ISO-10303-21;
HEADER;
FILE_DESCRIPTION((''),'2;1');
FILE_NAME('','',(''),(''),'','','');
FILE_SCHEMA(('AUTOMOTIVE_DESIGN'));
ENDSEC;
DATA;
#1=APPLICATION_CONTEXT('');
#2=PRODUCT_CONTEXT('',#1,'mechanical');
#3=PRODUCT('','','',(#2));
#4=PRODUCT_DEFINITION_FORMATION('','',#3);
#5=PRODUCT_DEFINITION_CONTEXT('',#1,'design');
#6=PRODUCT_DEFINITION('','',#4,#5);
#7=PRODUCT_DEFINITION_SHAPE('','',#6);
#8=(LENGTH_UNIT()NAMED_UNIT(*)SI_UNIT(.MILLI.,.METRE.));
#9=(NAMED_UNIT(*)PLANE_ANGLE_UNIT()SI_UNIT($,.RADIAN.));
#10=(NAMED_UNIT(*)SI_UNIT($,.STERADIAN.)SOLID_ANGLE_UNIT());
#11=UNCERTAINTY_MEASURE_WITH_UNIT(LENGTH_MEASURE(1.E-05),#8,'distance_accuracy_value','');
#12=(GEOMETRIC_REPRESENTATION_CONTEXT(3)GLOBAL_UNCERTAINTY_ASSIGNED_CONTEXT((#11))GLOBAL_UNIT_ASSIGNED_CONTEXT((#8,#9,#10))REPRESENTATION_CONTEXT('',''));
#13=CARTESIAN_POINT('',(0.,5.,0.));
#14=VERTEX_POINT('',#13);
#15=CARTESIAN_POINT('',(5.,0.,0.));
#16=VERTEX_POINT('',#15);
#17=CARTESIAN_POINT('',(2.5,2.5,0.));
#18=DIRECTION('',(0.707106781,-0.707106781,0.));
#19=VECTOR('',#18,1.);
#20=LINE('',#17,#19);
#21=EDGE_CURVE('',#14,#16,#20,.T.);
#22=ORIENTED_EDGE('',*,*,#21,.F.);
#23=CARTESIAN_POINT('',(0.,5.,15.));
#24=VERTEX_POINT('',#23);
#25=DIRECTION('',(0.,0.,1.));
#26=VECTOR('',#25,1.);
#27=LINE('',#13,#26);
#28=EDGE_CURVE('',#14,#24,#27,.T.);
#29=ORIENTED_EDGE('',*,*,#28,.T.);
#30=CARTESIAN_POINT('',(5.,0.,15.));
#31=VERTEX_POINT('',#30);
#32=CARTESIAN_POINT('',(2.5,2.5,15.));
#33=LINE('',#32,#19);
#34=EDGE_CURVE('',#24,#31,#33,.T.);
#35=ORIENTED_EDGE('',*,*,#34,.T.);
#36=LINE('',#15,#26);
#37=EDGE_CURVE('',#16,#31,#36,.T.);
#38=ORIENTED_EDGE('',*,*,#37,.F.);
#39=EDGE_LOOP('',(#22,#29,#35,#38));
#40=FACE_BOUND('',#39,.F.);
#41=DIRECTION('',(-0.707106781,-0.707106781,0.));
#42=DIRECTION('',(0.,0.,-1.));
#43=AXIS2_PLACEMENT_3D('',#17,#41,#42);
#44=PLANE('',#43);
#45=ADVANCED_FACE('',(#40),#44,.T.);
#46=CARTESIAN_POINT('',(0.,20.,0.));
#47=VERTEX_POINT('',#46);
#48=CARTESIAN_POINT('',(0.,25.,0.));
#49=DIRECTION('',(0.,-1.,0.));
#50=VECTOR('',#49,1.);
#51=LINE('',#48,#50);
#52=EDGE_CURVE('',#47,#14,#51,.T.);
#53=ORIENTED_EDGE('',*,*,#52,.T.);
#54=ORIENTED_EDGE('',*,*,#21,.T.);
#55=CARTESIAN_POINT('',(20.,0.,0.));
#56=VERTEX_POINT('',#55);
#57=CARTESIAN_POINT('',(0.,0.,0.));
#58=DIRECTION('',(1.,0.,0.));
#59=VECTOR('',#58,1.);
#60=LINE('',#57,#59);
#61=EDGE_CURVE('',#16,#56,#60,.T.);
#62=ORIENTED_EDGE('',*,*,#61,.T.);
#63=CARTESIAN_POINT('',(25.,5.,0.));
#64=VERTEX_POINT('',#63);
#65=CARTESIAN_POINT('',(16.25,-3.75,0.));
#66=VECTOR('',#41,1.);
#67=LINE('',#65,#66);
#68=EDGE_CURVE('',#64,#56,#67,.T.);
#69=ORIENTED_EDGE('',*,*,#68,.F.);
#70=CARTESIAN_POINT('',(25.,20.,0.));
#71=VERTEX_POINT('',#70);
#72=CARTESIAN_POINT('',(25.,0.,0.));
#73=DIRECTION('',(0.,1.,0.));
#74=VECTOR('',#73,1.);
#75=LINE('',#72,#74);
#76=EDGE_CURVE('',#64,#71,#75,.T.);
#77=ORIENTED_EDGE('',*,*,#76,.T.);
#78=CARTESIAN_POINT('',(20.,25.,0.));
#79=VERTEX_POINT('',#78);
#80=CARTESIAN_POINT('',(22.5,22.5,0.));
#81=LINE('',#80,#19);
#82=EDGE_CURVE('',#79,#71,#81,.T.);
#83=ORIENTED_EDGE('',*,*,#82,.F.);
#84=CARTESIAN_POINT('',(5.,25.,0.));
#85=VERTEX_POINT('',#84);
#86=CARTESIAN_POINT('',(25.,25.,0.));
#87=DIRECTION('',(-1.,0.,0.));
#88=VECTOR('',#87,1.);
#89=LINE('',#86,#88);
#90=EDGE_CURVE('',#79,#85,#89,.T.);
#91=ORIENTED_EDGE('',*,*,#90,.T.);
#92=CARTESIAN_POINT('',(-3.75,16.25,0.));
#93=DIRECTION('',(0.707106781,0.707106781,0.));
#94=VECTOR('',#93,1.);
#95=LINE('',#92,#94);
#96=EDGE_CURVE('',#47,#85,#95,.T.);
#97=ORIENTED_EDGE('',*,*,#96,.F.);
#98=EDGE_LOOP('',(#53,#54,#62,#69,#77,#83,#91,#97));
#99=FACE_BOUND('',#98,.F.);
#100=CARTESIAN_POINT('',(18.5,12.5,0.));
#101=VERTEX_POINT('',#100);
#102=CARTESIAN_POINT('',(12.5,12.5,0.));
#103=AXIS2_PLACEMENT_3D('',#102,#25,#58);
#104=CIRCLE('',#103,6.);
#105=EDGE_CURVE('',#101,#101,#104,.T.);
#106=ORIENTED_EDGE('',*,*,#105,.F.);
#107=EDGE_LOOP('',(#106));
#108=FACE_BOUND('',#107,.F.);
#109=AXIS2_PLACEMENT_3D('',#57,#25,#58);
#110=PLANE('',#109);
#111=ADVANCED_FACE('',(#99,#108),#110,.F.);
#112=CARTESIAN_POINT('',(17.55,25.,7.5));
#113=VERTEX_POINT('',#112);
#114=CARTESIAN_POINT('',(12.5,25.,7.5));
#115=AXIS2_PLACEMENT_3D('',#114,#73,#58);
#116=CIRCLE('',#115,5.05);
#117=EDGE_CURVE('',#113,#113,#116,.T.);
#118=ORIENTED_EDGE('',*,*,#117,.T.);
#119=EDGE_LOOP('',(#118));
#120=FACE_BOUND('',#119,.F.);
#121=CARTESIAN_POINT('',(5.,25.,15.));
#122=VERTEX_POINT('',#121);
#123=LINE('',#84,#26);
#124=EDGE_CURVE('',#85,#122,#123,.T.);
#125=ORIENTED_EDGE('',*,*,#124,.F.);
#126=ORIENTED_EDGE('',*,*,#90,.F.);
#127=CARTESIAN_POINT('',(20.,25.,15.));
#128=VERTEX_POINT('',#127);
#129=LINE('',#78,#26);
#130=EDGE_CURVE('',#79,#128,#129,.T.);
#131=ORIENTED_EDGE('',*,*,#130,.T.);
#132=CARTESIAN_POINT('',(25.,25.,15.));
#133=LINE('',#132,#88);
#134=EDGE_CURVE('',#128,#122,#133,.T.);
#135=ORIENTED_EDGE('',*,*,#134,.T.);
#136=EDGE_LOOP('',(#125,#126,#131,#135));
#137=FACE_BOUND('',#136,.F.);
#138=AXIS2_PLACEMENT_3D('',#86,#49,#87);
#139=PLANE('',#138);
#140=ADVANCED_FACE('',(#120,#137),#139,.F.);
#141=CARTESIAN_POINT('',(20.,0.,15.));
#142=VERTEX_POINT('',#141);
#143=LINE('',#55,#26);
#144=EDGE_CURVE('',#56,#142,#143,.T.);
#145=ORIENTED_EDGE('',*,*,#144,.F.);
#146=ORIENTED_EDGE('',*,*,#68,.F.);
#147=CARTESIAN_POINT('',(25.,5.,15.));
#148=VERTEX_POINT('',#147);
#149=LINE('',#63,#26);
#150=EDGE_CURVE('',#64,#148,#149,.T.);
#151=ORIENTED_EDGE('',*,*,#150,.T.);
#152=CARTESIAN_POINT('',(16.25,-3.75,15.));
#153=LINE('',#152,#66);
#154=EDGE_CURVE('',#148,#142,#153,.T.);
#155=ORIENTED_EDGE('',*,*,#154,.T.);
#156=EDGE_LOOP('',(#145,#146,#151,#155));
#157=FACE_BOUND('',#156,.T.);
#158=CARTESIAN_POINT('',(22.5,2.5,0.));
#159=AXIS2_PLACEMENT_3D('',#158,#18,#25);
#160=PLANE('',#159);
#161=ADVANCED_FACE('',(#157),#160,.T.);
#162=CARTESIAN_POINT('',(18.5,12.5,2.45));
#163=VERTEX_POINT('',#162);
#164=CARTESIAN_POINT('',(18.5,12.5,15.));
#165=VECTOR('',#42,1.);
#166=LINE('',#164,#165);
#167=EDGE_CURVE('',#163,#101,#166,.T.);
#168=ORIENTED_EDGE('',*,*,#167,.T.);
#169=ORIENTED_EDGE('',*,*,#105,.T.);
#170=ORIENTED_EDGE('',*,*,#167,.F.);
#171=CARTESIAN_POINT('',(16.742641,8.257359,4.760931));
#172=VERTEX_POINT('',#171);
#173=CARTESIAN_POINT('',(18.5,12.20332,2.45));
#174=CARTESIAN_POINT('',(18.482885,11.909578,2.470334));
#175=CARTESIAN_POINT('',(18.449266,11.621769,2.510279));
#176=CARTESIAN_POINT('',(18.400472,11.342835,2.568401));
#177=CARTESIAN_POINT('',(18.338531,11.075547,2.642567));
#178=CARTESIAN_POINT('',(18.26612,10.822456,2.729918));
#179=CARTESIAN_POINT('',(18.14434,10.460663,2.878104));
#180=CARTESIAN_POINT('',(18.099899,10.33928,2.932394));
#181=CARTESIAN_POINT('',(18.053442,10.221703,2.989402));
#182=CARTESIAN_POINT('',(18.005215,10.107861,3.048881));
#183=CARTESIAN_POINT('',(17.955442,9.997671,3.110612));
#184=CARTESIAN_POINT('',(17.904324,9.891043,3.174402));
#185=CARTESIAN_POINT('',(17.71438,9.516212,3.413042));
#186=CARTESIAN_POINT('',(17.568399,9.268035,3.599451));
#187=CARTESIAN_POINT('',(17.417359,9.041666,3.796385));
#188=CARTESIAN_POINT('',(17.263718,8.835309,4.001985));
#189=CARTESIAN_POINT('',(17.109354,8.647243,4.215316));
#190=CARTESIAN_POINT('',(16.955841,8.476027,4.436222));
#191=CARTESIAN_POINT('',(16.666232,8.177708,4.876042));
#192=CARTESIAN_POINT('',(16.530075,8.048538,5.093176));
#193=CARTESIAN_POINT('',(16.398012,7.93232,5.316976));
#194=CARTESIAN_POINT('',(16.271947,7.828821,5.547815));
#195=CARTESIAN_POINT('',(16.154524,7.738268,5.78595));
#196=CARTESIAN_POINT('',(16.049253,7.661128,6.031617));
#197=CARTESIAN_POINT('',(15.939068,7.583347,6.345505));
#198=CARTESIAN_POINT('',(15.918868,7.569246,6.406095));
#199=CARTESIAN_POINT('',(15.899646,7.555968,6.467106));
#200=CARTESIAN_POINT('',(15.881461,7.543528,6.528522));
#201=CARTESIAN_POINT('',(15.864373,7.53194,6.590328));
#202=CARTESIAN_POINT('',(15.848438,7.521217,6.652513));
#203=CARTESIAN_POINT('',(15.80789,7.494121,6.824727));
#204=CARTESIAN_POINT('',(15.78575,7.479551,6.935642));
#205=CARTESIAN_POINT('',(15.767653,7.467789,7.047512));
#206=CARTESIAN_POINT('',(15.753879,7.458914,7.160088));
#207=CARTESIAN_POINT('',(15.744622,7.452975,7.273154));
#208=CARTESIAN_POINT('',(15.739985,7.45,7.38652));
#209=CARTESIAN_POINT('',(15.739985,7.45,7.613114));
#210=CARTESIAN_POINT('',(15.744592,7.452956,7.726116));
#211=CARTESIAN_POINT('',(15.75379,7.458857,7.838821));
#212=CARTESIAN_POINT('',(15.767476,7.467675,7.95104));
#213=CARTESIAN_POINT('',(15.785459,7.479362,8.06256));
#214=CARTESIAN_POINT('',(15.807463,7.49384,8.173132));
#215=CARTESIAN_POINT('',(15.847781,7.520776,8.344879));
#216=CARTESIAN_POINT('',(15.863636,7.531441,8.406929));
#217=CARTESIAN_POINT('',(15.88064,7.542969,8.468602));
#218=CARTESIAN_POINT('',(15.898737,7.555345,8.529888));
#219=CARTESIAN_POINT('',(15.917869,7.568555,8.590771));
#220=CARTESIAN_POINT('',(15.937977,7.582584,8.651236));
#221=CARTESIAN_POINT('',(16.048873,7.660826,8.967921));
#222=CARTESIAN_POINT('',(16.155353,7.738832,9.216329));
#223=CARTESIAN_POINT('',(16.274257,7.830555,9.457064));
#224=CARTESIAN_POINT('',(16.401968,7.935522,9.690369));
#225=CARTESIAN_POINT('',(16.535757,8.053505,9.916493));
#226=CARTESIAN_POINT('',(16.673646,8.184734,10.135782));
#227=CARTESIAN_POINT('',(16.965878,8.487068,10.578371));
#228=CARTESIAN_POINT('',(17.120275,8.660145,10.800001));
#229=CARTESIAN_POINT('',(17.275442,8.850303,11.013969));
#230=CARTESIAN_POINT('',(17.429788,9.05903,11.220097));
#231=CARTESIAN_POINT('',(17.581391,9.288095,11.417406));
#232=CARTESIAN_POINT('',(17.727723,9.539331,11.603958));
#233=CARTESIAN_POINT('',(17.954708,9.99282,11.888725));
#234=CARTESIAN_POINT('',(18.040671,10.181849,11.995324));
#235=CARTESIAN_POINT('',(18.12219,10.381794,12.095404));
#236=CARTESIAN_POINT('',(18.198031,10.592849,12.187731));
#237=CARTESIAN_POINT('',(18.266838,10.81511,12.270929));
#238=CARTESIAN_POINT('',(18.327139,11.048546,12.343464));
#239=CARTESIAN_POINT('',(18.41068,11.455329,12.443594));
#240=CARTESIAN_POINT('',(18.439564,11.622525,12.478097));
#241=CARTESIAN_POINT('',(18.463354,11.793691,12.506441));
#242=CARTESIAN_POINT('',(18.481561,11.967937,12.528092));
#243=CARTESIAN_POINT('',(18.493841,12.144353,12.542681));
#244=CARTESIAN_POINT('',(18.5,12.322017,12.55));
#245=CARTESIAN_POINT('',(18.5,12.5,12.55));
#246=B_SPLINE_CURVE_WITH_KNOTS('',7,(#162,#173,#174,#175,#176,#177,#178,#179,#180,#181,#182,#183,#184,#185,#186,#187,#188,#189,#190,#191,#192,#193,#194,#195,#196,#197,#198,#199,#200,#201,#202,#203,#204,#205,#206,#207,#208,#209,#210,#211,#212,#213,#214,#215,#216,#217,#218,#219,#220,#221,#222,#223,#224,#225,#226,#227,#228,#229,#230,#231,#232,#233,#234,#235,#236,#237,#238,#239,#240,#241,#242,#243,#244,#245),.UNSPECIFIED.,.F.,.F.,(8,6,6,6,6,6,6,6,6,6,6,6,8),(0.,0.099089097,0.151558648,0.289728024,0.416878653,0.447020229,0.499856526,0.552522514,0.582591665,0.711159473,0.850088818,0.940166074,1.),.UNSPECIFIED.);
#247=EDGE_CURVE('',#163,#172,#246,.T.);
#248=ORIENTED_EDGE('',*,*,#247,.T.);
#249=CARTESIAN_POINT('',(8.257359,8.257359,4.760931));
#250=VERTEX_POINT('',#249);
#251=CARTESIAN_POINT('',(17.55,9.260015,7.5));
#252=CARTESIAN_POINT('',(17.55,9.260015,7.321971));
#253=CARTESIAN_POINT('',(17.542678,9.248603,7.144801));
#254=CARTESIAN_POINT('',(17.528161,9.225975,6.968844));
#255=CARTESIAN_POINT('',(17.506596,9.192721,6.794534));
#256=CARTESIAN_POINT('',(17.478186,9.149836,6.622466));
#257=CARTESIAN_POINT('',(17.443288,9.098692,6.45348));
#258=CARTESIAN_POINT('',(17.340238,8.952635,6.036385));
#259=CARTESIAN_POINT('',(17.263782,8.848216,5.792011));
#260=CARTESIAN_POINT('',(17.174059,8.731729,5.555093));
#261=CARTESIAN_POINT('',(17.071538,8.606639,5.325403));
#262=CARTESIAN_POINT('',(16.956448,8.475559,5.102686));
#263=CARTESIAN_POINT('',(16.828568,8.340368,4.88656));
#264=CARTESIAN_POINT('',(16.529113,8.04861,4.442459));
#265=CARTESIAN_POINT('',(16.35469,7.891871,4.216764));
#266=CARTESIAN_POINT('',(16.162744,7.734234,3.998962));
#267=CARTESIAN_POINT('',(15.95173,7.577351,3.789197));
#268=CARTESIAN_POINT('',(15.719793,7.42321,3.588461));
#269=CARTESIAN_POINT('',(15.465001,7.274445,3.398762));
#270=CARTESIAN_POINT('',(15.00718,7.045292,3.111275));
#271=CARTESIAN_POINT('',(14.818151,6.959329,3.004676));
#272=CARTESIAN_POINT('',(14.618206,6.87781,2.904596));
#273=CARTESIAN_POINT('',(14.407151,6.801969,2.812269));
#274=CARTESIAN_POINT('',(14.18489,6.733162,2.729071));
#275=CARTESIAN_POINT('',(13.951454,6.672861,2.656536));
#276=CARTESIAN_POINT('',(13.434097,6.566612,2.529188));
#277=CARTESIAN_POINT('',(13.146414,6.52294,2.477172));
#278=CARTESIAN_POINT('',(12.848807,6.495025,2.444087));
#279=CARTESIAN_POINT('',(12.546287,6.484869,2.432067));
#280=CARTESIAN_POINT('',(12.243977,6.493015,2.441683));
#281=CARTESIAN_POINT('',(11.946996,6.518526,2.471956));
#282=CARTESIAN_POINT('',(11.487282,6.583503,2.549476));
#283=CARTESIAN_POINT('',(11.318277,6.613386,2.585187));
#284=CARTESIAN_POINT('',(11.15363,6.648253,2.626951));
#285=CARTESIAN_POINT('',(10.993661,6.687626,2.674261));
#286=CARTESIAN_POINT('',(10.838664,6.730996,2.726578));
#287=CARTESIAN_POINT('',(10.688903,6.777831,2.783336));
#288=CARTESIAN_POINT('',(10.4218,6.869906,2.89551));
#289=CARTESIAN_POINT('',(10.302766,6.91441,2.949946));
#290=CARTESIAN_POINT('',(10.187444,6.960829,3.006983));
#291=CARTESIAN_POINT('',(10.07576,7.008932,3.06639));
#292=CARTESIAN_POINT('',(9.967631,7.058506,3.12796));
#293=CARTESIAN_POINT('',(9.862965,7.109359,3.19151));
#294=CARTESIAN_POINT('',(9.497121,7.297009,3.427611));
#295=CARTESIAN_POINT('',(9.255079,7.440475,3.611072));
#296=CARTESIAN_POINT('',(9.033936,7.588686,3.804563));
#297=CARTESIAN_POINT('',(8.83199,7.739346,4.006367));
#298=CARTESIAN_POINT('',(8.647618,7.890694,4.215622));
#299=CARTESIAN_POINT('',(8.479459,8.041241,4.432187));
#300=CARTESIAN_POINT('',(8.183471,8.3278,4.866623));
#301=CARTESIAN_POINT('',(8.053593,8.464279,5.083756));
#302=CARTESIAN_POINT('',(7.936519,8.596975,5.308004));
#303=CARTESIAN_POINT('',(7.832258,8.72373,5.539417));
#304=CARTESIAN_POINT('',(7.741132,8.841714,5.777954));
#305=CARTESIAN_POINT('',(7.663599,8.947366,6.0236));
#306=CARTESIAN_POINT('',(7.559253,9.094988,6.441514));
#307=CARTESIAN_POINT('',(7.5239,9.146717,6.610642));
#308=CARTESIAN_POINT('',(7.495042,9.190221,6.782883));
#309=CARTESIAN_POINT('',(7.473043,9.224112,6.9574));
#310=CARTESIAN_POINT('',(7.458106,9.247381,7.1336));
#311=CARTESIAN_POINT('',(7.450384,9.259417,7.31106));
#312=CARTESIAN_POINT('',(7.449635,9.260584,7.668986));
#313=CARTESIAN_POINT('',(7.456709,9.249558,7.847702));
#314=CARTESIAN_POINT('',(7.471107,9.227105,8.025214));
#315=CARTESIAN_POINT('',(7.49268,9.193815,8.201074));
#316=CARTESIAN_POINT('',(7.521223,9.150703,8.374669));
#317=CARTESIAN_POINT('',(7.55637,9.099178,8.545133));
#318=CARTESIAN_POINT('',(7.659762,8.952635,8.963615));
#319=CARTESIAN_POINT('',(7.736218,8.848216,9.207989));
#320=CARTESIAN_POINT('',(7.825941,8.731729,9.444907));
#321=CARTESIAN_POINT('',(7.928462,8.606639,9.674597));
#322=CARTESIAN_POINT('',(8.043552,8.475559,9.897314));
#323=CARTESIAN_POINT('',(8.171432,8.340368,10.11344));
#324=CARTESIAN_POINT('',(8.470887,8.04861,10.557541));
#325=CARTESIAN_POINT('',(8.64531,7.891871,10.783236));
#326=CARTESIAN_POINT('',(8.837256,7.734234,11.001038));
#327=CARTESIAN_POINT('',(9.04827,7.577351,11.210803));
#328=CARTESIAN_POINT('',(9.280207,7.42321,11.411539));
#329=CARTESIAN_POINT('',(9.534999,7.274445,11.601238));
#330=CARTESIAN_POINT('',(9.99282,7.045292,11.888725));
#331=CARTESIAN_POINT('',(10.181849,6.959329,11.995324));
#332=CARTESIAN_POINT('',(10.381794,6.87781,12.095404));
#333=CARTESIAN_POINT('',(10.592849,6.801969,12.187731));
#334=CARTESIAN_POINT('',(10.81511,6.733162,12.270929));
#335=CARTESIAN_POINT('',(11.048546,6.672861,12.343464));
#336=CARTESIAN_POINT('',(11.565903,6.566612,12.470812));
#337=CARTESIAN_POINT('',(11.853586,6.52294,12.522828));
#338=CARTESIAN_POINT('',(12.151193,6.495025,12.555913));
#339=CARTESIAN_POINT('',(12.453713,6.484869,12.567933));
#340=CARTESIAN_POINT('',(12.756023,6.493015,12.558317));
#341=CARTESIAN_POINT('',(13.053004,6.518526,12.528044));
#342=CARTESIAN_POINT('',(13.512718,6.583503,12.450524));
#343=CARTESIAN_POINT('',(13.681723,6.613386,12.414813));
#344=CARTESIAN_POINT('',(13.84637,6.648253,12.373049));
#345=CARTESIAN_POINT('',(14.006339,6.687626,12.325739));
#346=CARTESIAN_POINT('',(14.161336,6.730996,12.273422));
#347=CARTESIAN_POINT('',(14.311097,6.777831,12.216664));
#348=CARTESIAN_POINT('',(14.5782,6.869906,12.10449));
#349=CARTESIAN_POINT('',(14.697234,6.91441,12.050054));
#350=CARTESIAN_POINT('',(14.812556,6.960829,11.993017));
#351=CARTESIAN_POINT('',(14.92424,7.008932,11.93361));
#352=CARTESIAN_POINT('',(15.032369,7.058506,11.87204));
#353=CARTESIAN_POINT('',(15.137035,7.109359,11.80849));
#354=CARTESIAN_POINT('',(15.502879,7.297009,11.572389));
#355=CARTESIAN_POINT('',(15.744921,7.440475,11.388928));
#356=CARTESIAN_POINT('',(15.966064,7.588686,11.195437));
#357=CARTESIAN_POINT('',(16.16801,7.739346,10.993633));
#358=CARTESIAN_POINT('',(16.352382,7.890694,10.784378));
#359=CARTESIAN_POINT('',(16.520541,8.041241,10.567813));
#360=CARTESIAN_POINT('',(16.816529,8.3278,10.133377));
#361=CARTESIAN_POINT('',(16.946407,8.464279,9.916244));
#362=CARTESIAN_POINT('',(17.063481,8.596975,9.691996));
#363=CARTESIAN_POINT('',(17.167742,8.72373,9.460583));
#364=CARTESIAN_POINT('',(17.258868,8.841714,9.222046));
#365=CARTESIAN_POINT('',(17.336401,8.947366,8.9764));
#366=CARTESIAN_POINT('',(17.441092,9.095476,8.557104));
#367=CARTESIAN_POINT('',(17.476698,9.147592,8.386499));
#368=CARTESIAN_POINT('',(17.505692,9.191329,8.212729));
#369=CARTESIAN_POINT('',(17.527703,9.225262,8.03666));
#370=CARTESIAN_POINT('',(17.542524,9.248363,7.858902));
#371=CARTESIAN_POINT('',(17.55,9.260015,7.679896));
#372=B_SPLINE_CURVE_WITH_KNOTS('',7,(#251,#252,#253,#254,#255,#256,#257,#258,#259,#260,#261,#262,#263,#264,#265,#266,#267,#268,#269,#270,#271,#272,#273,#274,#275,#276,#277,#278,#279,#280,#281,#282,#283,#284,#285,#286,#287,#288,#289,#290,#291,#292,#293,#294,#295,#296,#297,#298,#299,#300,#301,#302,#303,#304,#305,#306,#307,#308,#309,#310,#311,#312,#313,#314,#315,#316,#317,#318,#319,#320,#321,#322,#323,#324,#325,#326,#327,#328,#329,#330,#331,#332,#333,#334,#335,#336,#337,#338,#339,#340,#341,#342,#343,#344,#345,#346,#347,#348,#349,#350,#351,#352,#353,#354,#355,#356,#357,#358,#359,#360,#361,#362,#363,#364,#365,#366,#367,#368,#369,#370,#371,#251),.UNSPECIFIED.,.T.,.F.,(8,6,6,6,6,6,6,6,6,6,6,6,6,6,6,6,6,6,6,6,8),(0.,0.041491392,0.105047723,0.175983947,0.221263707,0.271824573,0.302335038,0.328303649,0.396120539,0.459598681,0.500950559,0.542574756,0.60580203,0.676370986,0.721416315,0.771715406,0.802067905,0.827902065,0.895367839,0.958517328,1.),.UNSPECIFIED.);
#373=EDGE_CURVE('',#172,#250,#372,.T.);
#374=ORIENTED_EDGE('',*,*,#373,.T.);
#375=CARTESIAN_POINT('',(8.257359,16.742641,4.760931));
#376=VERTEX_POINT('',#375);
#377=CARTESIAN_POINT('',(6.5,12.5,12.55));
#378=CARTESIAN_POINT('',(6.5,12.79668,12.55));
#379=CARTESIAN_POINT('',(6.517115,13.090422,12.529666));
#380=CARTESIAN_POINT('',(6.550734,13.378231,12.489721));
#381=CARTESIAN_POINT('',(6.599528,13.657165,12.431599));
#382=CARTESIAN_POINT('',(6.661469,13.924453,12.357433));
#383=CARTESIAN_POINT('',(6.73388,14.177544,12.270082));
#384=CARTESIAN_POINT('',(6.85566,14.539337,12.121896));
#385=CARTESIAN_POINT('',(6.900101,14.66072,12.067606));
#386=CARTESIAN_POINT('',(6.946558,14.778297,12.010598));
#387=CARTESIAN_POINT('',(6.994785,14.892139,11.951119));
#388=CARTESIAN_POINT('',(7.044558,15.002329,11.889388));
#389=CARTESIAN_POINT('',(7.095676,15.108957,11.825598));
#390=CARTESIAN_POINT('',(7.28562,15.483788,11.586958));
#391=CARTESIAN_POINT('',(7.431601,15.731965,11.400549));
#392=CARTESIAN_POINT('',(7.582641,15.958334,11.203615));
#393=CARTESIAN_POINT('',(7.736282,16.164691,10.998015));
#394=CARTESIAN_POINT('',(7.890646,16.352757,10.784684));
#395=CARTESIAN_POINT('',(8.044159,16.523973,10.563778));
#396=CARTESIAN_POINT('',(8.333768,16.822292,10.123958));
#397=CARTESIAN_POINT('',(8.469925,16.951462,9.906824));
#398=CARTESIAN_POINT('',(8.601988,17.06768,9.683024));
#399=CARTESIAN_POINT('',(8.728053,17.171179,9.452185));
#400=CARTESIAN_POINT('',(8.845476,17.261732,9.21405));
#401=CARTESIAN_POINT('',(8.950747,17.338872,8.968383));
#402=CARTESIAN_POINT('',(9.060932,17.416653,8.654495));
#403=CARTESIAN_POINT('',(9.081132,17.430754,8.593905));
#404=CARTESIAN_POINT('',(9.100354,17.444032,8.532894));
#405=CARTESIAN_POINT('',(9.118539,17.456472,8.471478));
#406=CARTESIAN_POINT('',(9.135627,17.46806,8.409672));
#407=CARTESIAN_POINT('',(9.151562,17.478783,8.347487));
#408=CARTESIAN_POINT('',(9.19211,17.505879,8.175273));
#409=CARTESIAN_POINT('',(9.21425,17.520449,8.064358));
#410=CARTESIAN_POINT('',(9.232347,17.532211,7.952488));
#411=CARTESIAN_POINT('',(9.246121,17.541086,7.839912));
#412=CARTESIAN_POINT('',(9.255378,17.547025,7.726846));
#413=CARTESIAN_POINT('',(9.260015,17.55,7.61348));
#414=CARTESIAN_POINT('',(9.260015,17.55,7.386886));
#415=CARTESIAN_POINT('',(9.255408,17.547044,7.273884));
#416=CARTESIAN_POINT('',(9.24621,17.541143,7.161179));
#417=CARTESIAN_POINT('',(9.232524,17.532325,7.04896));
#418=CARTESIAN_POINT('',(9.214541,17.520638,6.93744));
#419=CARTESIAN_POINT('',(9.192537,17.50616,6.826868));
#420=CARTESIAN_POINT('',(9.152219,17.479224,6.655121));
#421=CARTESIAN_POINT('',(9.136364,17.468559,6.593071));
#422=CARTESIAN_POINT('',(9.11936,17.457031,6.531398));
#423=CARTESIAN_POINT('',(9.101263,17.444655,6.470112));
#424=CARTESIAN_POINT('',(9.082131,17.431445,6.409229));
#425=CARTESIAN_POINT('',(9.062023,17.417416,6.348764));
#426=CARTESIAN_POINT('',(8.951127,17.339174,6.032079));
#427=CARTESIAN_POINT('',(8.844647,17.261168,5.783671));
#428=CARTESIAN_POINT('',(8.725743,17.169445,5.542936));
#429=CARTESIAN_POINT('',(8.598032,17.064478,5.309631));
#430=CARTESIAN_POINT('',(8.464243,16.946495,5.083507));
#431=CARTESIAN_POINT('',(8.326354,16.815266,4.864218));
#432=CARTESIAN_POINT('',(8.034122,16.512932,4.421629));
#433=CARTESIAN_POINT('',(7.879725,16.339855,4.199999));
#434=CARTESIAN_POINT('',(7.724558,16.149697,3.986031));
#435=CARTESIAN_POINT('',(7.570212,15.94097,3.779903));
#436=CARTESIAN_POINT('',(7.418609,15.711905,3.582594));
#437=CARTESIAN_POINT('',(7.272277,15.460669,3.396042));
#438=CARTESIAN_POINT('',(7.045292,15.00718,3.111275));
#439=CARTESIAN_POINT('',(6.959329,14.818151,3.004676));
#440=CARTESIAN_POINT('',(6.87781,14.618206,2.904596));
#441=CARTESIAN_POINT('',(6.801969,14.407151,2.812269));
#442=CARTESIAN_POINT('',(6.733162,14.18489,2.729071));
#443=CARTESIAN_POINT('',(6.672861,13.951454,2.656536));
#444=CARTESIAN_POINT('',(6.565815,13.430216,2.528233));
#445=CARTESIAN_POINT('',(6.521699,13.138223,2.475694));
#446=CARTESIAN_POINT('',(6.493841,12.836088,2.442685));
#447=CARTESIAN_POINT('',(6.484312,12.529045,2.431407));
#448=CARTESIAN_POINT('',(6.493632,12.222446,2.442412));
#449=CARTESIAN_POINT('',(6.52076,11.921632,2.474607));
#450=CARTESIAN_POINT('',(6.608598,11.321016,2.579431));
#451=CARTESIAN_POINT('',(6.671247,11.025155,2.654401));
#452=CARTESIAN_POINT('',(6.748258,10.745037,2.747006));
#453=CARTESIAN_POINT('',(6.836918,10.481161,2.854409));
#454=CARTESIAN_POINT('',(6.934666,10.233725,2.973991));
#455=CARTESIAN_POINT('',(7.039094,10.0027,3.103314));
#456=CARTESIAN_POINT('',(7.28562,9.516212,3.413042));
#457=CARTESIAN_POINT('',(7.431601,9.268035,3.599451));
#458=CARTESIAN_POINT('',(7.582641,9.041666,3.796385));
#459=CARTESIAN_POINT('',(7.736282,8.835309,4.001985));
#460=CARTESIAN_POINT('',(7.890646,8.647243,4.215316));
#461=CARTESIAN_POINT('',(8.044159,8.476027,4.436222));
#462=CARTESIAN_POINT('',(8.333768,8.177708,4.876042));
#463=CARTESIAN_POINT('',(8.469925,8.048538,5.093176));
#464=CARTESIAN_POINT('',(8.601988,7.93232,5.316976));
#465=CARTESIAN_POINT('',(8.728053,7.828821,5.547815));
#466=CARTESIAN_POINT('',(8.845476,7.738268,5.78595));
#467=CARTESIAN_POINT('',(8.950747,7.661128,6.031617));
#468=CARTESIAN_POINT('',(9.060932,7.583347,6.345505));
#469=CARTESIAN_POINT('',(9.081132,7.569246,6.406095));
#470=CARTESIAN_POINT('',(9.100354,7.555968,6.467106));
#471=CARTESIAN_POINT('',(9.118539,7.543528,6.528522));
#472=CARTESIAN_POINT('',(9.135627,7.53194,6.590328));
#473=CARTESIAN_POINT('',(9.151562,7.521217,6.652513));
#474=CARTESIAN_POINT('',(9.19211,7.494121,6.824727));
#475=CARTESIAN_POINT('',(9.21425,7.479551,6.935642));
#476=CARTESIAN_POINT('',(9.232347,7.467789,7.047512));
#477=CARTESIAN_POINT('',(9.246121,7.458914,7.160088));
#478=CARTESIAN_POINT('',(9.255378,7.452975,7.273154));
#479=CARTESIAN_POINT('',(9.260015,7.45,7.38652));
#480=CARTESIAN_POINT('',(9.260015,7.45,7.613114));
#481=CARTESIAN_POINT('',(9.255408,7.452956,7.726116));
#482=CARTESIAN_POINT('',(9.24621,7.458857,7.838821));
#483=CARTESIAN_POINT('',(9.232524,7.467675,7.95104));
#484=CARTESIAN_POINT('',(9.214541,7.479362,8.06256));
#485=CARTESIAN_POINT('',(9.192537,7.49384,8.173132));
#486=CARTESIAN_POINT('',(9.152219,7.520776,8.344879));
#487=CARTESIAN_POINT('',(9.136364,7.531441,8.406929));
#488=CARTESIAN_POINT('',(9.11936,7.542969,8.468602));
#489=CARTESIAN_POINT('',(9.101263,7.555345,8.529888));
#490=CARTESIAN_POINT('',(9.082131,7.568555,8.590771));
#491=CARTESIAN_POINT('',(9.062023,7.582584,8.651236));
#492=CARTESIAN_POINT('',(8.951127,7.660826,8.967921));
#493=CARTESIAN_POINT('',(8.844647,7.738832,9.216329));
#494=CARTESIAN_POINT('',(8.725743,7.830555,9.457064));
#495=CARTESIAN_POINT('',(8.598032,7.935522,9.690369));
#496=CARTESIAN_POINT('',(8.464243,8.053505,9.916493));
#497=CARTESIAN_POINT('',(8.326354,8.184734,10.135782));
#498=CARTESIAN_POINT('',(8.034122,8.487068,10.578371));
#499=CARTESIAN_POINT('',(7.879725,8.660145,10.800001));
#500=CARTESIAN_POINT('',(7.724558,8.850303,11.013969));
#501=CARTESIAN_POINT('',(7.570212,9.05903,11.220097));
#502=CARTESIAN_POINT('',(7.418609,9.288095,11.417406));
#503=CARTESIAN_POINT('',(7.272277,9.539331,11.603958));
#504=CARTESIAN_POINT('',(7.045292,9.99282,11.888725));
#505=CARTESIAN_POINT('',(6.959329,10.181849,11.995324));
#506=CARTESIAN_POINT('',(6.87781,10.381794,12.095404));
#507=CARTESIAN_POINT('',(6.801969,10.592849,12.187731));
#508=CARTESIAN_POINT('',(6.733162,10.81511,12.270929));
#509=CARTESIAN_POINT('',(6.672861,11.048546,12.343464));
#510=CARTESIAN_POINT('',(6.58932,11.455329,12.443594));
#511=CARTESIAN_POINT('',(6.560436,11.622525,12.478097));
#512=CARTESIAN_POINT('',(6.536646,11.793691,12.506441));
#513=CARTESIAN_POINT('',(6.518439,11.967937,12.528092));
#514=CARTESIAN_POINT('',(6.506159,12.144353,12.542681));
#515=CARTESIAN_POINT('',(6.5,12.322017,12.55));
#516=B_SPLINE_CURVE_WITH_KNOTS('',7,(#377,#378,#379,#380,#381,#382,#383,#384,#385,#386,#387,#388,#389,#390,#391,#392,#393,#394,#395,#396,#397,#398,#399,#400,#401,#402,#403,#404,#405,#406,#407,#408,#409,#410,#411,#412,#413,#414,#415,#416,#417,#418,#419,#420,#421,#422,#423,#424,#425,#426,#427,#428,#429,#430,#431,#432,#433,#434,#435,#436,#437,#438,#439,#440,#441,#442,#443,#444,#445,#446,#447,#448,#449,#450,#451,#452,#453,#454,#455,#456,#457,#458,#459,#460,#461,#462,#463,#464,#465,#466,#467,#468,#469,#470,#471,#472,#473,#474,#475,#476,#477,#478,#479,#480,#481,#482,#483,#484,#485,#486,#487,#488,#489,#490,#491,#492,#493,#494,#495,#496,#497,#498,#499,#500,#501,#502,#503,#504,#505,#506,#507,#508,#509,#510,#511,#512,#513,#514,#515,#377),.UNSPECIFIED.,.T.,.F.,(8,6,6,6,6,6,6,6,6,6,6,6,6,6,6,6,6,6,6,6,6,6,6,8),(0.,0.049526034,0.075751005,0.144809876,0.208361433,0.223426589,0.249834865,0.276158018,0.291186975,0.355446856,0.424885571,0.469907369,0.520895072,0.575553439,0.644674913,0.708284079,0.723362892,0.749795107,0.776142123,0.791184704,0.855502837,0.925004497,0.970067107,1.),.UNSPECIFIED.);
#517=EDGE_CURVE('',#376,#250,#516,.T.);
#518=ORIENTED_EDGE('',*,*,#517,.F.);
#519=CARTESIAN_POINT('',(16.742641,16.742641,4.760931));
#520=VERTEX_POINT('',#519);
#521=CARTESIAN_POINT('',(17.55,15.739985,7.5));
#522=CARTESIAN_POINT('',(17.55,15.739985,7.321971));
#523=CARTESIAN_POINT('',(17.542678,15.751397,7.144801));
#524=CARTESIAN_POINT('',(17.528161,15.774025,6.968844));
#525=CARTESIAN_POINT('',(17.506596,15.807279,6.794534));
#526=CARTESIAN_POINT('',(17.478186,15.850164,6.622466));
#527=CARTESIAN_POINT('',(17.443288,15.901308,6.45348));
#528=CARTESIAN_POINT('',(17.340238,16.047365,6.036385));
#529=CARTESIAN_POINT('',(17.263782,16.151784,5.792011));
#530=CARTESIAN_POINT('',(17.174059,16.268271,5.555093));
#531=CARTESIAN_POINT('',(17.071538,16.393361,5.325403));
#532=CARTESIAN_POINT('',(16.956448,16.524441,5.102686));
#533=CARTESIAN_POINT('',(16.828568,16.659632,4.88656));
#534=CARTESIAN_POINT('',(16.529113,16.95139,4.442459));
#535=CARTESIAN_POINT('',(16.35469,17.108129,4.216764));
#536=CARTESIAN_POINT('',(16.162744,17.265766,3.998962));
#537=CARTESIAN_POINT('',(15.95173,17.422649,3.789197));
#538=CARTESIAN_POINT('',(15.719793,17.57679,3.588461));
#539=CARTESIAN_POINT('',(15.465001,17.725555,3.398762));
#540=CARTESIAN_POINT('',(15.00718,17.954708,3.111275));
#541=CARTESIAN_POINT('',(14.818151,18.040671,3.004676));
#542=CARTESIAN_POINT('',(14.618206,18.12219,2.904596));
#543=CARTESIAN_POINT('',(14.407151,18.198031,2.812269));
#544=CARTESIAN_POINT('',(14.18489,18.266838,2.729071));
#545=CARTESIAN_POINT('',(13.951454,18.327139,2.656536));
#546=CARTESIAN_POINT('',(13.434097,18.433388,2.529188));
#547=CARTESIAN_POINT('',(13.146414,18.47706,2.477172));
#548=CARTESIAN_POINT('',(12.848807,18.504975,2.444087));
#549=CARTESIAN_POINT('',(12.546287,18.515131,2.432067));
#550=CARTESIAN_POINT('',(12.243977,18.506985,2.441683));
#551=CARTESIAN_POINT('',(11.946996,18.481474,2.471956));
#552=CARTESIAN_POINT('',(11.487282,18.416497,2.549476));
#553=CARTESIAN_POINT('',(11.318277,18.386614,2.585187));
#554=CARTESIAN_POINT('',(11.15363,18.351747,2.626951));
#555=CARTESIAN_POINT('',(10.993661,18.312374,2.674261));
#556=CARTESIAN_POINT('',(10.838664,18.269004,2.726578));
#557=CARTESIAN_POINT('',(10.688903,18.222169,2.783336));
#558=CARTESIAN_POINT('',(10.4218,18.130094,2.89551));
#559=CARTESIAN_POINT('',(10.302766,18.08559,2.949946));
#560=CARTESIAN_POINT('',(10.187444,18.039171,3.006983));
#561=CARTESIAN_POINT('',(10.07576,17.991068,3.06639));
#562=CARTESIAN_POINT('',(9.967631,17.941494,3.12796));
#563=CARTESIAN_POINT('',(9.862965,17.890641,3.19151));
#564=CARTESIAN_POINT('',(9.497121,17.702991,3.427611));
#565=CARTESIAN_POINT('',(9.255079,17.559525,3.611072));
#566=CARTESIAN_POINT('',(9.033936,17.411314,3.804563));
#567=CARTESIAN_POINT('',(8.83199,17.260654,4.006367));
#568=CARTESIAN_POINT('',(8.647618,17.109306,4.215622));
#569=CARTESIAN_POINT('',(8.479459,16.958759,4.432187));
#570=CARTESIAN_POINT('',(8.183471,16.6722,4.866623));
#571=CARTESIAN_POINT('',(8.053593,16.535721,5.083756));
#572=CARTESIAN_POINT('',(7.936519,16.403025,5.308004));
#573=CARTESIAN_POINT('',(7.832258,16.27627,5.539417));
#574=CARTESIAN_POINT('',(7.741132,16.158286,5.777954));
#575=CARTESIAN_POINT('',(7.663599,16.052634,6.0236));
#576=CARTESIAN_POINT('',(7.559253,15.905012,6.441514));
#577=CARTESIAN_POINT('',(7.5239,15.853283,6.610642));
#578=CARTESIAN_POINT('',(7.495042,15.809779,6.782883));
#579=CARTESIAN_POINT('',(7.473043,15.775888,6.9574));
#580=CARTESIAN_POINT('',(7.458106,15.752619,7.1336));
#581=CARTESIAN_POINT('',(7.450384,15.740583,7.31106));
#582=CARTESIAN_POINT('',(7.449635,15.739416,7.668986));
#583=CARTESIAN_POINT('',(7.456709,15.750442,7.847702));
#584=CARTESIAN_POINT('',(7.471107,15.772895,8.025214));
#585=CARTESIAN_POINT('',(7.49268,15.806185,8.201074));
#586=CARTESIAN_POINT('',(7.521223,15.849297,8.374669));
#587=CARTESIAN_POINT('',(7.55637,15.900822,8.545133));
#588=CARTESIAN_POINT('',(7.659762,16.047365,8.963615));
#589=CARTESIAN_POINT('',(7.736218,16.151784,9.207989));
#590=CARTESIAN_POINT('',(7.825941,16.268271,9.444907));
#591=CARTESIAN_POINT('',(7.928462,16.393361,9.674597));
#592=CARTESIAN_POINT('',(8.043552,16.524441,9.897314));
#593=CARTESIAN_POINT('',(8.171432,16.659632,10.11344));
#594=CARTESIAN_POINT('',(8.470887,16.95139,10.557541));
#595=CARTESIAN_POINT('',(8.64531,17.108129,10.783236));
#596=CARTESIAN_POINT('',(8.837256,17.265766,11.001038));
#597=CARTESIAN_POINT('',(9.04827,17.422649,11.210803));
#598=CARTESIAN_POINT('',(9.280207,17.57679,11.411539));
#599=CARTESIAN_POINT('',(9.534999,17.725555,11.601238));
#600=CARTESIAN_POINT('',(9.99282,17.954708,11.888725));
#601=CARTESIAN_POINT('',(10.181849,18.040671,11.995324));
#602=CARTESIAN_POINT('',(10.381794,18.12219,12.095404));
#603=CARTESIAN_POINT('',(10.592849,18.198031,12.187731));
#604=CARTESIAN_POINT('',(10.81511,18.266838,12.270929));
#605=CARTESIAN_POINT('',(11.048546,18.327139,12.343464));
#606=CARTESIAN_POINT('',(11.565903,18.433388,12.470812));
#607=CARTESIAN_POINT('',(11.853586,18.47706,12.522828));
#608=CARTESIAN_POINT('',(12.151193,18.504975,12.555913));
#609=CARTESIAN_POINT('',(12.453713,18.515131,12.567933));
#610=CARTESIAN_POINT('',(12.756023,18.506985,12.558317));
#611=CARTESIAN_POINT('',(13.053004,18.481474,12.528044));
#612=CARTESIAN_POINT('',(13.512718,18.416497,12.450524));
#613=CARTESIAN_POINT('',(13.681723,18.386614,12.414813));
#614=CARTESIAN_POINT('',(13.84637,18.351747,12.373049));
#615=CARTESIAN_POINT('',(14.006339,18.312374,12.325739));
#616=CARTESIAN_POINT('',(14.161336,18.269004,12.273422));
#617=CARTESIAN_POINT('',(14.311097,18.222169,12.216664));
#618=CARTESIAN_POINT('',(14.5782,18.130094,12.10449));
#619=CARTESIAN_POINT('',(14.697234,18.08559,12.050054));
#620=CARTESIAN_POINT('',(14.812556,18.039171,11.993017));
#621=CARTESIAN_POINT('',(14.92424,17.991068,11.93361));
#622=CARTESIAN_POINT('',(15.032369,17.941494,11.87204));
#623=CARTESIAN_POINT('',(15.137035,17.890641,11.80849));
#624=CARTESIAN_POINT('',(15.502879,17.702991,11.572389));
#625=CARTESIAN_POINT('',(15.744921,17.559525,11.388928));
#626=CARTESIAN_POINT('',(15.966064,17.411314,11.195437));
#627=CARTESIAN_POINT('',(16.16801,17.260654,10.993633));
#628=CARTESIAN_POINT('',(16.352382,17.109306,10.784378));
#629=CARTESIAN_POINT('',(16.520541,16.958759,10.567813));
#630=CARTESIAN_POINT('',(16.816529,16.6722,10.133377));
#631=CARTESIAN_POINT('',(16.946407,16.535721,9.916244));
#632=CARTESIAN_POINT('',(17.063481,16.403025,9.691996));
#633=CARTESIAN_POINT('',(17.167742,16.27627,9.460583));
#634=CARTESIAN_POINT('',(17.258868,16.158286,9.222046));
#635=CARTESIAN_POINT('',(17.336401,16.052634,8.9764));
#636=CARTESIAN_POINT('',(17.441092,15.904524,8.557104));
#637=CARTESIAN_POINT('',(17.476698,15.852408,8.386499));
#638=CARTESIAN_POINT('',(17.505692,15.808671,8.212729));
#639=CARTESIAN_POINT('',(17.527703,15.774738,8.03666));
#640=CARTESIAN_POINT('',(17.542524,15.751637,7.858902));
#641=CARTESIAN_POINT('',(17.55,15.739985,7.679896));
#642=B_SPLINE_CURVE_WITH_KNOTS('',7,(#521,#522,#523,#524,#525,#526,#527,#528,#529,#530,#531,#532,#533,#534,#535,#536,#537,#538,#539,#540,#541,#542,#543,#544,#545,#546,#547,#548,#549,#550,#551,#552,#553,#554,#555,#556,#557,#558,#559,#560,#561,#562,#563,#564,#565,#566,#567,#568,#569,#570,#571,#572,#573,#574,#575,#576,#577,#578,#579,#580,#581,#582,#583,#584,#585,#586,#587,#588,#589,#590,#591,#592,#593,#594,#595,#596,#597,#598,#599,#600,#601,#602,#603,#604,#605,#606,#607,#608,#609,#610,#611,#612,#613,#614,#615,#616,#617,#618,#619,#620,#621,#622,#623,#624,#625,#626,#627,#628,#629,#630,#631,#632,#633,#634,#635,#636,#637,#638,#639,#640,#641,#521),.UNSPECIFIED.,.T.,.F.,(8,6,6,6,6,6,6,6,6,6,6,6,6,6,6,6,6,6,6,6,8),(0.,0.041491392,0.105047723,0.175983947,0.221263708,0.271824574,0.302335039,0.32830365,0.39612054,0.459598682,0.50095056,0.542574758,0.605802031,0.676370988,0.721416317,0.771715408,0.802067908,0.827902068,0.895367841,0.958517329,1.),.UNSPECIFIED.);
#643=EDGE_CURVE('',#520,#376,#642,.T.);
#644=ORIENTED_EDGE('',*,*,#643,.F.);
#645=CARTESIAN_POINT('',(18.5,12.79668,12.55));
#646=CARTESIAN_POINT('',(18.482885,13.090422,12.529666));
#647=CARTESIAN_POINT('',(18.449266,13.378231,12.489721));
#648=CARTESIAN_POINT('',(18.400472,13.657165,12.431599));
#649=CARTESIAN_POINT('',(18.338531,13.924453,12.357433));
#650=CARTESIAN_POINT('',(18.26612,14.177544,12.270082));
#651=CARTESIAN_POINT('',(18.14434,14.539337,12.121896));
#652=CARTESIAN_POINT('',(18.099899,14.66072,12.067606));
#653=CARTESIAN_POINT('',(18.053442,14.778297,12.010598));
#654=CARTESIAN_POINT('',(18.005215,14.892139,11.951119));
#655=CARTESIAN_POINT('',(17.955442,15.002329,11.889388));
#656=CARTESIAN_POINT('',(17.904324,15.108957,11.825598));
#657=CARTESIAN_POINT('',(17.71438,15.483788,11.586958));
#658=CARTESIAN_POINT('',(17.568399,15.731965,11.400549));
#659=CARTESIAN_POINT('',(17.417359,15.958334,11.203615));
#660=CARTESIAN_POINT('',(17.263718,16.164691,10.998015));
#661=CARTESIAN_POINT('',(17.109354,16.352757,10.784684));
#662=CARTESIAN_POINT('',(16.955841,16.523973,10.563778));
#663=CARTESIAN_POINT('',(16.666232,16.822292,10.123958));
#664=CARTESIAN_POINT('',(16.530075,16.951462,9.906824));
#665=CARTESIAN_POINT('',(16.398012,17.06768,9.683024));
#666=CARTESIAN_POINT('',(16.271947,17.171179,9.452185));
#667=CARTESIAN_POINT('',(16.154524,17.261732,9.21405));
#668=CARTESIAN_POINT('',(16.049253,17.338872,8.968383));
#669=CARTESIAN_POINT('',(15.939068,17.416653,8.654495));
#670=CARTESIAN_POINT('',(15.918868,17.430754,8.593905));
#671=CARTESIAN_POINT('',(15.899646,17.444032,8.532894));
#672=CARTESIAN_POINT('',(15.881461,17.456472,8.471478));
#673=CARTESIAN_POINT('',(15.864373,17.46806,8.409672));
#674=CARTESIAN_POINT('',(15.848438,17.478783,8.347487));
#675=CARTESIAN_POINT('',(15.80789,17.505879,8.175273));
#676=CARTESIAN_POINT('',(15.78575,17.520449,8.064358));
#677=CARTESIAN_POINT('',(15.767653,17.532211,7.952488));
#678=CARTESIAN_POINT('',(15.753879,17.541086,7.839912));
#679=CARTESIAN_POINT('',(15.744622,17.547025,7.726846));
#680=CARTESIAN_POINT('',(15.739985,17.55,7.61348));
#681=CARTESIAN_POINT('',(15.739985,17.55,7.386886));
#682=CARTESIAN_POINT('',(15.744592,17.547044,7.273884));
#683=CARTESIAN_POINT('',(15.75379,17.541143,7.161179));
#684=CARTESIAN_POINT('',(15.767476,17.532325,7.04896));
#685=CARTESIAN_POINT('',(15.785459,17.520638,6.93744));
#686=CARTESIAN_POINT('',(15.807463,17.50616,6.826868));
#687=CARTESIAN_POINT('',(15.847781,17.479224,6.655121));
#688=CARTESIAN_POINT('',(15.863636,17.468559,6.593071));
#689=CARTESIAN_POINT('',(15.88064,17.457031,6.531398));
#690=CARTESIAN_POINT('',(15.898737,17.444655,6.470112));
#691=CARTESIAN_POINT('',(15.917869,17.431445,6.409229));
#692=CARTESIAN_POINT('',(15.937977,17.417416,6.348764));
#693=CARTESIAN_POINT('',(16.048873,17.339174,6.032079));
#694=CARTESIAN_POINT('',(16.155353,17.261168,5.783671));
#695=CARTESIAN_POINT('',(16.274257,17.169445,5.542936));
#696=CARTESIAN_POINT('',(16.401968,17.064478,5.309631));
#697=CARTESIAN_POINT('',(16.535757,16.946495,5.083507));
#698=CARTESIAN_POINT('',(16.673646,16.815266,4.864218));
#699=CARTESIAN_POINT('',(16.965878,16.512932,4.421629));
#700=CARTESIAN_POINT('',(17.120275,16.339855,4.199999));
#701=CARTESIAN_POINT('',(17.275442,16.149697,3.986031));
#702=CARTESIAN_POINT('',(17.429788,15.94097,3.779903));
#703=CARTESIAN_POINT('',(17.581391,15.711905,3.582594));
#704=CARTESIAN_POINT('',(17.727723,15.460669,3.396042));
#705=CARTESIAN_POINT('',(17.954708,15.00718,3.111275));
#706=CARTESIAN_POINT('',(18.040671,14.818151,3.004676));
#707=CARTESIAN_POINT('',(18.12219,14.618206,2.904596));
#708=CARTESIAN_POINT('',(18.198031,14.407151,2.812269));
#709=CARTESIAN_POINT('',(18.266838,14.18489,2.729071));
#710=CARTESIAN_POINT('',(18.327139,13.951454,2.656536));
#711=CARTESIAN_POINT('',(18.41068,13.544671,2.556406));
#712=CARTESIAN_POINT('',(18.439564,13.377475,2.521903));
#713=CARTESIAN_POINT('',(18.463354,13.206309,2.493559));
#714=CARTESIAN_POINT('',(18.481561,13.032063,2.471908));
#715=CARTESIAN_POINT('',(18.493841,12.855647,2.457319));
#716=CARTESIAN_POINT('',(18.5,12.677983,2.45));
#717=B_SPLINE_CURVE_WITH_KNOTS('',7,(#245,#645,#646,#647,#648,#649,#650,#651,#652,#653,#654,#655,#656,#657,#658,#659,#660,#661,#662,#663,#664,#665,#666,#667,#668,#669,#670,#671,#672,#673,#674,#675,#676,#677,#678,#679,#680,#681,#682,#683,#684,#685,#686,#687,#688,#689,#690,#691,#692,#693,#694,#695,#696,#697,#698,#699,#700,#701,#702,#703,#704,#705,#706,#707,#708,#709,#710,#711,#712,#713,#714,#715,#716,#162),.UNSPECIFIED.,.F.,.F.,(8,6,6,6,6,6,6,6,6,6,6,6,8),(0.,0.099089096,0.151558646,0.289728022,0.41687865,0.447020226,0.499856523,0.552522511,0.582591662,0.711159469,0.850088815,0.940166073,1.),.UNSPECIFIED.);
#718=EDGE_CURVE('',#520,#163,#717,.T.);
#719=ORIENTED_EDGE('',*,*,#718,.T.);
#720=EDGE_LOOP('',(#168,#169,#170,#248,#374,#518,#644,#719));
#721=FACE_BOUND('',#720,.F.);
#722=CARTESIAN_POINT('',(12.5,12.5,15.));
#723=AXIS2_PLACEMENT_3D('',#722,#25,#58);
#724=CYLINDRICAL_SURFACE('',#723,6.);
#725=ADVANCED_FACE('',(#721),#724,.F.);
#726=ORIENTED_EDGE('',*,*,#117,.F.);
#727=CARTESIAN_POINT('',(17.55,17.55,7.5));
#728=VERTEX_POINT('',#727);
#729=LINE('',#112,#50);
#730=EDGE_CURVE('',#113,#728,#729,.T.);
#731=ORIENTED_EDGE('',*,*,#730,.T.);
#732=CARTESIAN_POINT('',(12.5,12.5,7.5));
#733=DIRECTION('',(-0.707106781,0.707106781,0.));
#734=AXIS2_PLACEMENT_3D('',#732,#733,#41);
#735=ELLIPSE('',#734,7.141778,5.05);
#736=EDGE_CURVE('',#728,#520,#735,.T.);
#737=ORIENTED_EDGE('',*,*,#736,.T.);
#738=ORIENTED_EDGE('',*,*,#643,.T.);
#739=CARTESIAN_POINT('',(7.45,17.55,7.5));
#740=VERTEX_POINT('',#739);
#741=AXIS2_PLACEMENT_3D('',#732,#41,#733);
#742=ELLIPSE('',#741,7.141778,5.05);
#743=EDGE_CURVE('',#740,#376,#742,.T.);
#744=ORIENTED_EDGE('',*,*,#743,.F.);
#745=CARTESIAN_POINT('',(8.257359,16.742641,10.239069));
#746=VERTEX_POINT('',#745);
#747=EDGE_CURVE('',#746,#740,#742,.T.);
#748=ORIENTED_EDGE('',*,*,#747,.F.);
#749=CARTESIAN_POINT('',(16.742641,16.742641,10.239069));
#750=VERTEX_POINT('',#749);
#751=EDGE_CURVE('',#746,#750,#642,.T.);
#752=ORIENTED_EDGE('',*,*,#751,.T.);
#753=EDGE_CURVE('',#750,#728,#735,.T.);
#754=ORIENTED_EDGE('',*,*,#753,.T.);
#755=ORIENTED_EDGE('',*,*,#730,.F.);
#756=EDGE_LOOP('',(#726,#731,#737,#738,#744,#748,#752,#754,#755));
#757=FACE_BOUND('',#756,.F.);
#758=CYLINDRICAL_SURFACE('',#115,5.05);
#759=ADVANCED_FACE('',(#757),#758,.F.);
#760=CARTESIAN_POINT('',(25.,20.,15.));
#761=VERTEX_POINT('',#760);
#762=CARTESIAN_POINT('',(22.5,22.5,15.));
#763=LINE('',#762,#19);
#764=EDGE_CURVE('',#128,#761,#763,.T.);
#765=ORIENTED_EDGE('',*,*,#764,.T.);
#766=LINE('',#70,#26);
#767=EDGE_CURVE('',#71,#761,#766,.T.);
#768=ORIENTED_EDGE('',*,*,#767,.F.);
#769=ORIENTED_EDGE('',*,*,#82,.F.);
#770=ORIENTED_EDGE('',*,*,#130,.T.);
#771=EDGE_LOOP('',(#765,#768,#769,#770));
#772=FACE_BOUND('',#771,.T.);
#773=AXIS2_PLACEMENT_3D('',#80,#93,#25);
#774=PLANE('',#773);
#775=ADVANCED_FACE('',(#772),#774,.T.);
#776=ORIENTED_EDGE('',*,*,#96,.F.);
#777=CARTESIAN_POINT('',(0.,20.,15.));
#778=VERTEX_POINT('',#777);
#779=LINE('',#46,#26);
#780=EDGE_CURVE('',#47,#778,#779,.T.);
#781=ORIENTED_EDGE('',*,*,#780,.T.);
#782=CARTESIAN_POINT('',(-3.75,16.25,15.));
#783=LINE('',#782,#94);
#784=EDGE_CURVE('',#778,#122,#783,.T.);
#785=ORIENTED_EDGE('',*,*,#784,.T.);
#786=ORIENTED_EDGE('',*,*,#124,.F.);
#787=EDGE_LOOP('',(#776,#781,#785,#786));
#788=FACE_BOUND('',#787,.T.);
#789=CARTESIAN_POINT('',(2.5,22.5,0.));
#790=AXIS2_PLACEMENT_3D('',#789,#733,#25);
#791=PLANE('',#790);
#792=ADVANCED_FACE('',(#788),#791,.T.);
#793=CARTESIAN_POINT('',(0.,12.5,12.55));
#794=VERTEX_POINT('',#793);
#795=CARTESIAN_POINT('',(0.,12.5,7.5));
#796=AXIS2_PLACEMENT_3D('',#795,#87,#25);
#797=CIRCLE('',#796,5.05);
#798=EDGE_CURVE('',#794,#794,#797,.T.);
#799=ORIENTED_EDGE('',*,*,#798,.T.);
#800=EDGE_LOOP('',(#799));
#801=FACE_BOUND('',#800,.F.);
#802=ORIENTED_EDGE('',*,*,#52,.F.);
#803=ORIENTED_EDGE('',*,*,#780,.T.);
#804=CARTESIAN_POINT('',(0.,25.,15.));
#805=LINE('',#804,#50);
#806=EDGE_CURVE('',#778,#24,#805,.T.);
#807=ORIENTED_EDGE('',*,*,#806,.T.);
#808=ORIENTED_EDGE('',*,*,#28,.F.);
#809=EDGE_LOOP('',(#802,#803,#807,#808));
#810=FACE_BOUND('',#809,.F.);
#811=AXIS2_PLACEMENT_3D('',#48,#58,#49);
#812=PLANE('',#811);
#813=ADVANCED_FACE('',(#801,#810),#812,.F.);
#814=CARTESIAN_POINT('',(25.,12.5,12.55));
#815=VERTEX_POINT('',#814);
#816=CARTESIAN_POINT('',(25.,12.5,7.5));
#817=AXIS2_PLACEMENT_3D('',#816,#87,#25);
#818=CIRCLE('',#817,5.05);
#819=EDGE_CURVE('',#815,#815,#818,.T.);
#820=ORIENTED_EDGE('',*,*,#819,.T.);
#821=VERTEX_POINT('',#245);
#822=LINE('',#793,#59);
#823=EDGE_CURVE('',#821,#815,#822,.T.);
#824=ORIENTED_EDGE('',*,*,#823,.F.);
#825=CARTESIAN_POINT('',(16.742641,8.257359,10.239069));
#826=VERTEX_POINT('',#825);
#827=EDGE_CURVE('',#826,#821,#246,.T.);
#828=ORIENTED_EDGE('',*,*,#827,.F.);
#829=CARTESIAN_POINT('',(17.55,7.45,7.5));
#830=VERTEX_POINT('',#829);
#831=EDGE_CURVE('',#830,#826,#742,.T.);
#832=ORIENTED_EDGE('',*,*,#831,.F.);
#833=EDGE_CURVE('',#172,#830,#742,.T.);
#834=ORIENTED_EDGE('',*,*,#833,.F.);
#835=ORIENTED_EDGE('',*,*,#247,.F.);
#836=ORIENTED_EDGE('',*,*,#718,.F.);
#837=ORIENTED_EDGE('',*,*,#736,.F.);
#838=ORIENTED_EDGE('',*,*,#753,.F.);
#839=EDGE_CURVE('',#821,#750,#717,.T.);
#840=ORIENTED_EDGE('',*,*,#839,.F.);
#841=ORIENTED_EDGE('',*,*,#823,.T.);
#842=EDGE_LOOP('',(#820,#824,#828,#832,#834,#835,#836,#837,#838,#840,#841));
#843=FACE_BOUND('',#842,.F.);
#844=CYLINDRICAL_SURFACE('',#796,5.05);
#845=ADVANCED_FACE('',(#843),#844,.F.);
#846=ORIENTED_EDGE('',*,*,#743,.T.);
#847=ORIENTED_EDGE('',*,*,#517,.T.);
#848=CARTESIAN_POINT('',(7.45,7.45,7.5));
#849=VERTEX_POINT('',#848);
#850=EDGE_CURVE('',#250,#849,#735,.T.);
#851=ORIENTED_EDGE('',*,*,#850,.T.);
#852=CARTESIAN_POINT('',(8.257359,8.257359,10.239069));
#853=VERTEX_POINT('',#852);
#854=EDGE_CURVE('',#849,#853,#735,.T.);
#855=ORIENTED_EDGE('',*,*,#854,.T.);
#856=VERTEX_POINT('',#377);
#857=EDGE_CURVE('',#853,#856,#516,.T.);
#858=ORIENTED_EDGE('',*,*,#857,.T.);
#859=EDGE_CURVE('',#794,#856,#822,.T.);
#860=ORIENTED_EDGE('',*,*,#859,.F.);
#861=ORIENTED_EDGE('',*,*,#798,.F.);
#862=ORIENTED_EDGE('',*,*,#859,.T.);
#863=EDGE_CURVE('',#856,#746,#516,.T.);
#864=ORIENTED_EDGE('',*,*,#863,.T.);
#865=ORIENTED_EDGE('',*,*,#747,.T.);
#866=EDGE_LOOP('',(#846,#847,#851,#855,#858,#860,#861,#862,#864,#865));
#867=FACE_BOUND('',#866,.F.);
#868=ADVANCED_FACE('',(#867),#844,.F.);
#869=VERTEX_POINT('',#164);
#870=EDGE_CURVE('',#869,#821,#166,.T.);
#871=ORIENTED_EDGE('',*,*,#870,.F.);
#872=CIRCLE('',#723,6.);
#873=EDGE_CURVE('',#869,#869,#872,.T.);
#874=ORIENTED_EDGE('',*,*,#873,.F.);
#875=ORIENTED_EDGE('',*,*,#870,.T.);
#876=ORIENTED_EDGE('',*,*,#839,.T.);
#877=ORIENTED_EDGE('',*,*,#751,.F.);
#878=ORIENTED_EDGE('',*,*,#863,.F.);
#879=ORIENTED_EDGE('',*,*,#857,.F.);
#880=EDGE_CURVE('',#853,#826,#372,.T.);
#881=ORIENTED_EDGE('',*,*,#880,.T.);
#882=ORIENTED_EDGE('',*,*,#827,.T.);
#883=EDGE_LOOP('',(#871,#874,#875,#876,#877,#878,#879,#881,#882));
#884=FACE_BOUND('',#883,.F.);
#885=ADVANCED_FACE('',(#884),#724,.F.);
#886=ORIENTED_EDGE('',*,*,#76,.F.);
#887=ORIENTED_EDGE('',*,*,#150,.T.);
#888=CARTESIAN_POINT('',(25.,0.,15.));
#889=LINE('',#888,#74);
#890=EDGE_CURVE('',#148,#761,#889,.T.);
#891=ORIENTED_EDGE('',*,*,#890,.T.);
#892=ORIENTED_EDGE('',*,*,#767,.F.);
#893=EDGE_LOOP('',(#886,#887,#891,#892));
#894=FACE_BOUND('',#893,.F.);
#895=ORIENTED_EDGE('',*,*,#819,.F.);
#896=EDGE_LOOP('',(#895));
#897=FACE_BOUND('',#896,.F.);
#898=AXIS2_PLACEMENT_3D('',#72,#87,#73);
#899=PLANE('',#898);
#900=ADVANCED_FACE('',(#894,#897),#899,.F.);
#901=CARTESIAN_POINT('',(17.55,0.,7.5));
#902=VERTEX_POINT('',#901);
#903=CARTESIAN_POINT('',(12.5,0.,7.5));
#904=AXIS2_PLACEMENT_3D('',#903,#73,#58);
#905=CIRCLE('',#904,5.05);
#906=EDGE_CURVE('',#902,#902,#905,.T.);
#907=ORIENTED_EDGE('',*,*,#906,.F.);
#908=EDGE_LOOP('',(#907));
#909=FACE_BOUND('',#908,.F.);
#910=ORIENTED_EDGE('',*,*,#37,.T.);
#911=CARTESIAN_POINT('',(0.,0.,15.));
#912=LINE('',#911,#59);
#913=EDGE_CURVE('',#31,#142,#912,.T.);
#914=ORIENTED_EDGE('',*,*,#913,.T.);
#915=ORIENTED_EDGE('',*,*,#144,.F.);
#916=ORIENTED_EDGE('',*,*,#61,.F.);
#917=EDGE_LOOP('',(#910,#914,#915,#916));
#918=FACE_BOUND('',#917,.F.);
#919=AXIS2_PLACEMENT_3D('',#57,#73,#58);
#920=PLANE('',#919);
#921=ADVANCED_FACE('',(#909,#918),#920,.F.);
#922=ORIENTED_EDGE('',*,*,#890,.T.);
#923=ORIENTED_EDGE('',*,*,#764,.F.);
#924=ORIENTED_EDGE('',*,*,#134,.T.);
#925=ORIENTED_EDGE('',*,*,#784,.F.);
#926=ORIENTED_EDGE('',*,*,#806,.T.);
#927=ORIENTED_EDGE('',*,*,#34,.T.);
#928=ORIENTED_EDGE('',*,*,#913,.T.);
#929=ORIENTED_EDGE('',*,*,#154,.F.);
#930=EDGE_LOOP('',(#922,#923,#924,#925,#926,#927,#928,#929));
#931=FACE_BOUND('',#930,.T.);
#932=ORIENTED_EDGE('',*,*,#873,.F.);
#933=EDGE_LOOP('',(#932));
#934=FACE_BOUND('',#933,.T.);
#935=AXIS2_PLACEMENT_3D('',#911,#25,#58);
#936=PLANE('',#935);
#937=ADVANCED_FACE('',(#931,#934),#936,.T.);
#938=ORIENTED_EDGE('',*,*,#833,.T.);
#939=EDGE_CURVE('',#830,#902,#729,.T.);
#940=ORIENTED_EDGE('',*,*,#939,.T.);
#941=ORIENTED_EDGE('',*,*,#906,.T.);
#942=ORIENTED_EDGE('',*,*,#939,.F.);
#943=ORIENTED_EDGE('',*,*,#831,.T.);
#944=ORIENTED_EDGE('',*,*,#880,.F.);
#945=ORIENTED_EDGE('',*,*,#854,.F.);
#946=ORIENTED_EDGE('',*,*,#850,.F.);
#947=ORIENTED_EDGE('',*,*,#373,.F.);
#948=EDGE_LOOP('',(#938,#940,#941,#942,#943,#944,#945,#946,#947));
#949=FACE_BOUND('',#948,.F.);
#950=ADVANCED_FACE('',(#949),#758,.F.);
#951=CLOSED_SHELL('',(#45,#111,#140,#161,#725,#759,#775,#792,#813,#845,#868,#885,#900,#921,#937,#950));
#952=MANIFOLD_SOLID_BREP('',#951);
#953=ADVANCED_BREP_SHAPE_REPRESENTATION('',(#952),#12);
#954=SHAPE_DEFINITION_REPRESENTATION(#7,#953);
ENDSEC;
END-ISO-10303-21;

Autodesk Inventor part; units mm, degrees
ref_plane "YZ Plane" through (0, 0, 0) normal (1, 0, 0) x (0, 1, 0)
ref_plane "XZ Plane" through (0, 0, 0) normal (0, 1, 0) x (-1, 0, 0)
ref_plane "XY Plane" through (0, 0, 0) normal (0, 0, 1) x (1, 0, 0)
sketch "Sketch1" plane through (0, 0, 0) normal (0, 0, 1) x (1, 0, 0)
  point P0 (0, 0)
sketch "Sketch2" plane through (0, 0, 0) normal (0, 0, 1) x (1, 0, 0)
  line L0 (0, 0) -> (25, 0)
  line L1 (25, 0) -> (25, 25)
  line L2 (25, 25) -> (0, 25)
  line L3 (0, 25) -> (0, 0)
  dimension "d0" = 25
  dimension "d1" = 25
extrude "Extrusion1" add sketch "Sketch2" along normal blind 15
chamfer "Chamfer1" distance 5 angle 45 4 edges at (25, 25, 7.5) (25, 0, 7.5) (0, 25, 7.5) (0, 0, 7.5)
sketch "Sketch3" plane through (0, 0, 15) normal (0, 0, 1) x (1, 0, 0)
  line L0 (20, 25) -> (5, 25) projected
  circle A0 centre (12.5, 12.5) radius 6
  line L1 (25, 5) -> (25, 20) projected
  point P0 (0, 0)
  dimension "d7" = 12
  dimension "d8" = 12.5
  dimension "d9" = 12.5
extrude "Extrusion2" cut sketch "Sketch3" against normal blind 15
sketch "Sketch4" plane through (0, 5, 0) normal (-1, 0, 0) x (0, 0, 1)
  circle A0 centre (7.5, 7.5) radius 5.05
  line L0 (15, 20) -> (0, 20) projected
  line L1 (15, 15) -> (15, 0) projected
  point P0 (0, -5)
  dimension "d12" = 10.1
  dimension "d13" = 12.5
  dimension "d14" = 7.5
extrude "Extrusion3" cut sketch "Sketch4" against normal through all
sketch "Sketch5" plane through (5, 25, 0) normal (0, 1, 0) x (1, 0, 0)
  circle A0 centre (7.5, -7.5) radius 5.05
  line L0 (15, 0) -> (0, 0) projected
  line L1 (-5, 0) -> (-5, -15) projected
  dimension "d17" = 10.1
  dimension "d18" = 7.5
  dimension "d19" = 12.5
extrude "Extrusion4" cut sketch "Sketch5" against normal through all
properties part number "nut"
